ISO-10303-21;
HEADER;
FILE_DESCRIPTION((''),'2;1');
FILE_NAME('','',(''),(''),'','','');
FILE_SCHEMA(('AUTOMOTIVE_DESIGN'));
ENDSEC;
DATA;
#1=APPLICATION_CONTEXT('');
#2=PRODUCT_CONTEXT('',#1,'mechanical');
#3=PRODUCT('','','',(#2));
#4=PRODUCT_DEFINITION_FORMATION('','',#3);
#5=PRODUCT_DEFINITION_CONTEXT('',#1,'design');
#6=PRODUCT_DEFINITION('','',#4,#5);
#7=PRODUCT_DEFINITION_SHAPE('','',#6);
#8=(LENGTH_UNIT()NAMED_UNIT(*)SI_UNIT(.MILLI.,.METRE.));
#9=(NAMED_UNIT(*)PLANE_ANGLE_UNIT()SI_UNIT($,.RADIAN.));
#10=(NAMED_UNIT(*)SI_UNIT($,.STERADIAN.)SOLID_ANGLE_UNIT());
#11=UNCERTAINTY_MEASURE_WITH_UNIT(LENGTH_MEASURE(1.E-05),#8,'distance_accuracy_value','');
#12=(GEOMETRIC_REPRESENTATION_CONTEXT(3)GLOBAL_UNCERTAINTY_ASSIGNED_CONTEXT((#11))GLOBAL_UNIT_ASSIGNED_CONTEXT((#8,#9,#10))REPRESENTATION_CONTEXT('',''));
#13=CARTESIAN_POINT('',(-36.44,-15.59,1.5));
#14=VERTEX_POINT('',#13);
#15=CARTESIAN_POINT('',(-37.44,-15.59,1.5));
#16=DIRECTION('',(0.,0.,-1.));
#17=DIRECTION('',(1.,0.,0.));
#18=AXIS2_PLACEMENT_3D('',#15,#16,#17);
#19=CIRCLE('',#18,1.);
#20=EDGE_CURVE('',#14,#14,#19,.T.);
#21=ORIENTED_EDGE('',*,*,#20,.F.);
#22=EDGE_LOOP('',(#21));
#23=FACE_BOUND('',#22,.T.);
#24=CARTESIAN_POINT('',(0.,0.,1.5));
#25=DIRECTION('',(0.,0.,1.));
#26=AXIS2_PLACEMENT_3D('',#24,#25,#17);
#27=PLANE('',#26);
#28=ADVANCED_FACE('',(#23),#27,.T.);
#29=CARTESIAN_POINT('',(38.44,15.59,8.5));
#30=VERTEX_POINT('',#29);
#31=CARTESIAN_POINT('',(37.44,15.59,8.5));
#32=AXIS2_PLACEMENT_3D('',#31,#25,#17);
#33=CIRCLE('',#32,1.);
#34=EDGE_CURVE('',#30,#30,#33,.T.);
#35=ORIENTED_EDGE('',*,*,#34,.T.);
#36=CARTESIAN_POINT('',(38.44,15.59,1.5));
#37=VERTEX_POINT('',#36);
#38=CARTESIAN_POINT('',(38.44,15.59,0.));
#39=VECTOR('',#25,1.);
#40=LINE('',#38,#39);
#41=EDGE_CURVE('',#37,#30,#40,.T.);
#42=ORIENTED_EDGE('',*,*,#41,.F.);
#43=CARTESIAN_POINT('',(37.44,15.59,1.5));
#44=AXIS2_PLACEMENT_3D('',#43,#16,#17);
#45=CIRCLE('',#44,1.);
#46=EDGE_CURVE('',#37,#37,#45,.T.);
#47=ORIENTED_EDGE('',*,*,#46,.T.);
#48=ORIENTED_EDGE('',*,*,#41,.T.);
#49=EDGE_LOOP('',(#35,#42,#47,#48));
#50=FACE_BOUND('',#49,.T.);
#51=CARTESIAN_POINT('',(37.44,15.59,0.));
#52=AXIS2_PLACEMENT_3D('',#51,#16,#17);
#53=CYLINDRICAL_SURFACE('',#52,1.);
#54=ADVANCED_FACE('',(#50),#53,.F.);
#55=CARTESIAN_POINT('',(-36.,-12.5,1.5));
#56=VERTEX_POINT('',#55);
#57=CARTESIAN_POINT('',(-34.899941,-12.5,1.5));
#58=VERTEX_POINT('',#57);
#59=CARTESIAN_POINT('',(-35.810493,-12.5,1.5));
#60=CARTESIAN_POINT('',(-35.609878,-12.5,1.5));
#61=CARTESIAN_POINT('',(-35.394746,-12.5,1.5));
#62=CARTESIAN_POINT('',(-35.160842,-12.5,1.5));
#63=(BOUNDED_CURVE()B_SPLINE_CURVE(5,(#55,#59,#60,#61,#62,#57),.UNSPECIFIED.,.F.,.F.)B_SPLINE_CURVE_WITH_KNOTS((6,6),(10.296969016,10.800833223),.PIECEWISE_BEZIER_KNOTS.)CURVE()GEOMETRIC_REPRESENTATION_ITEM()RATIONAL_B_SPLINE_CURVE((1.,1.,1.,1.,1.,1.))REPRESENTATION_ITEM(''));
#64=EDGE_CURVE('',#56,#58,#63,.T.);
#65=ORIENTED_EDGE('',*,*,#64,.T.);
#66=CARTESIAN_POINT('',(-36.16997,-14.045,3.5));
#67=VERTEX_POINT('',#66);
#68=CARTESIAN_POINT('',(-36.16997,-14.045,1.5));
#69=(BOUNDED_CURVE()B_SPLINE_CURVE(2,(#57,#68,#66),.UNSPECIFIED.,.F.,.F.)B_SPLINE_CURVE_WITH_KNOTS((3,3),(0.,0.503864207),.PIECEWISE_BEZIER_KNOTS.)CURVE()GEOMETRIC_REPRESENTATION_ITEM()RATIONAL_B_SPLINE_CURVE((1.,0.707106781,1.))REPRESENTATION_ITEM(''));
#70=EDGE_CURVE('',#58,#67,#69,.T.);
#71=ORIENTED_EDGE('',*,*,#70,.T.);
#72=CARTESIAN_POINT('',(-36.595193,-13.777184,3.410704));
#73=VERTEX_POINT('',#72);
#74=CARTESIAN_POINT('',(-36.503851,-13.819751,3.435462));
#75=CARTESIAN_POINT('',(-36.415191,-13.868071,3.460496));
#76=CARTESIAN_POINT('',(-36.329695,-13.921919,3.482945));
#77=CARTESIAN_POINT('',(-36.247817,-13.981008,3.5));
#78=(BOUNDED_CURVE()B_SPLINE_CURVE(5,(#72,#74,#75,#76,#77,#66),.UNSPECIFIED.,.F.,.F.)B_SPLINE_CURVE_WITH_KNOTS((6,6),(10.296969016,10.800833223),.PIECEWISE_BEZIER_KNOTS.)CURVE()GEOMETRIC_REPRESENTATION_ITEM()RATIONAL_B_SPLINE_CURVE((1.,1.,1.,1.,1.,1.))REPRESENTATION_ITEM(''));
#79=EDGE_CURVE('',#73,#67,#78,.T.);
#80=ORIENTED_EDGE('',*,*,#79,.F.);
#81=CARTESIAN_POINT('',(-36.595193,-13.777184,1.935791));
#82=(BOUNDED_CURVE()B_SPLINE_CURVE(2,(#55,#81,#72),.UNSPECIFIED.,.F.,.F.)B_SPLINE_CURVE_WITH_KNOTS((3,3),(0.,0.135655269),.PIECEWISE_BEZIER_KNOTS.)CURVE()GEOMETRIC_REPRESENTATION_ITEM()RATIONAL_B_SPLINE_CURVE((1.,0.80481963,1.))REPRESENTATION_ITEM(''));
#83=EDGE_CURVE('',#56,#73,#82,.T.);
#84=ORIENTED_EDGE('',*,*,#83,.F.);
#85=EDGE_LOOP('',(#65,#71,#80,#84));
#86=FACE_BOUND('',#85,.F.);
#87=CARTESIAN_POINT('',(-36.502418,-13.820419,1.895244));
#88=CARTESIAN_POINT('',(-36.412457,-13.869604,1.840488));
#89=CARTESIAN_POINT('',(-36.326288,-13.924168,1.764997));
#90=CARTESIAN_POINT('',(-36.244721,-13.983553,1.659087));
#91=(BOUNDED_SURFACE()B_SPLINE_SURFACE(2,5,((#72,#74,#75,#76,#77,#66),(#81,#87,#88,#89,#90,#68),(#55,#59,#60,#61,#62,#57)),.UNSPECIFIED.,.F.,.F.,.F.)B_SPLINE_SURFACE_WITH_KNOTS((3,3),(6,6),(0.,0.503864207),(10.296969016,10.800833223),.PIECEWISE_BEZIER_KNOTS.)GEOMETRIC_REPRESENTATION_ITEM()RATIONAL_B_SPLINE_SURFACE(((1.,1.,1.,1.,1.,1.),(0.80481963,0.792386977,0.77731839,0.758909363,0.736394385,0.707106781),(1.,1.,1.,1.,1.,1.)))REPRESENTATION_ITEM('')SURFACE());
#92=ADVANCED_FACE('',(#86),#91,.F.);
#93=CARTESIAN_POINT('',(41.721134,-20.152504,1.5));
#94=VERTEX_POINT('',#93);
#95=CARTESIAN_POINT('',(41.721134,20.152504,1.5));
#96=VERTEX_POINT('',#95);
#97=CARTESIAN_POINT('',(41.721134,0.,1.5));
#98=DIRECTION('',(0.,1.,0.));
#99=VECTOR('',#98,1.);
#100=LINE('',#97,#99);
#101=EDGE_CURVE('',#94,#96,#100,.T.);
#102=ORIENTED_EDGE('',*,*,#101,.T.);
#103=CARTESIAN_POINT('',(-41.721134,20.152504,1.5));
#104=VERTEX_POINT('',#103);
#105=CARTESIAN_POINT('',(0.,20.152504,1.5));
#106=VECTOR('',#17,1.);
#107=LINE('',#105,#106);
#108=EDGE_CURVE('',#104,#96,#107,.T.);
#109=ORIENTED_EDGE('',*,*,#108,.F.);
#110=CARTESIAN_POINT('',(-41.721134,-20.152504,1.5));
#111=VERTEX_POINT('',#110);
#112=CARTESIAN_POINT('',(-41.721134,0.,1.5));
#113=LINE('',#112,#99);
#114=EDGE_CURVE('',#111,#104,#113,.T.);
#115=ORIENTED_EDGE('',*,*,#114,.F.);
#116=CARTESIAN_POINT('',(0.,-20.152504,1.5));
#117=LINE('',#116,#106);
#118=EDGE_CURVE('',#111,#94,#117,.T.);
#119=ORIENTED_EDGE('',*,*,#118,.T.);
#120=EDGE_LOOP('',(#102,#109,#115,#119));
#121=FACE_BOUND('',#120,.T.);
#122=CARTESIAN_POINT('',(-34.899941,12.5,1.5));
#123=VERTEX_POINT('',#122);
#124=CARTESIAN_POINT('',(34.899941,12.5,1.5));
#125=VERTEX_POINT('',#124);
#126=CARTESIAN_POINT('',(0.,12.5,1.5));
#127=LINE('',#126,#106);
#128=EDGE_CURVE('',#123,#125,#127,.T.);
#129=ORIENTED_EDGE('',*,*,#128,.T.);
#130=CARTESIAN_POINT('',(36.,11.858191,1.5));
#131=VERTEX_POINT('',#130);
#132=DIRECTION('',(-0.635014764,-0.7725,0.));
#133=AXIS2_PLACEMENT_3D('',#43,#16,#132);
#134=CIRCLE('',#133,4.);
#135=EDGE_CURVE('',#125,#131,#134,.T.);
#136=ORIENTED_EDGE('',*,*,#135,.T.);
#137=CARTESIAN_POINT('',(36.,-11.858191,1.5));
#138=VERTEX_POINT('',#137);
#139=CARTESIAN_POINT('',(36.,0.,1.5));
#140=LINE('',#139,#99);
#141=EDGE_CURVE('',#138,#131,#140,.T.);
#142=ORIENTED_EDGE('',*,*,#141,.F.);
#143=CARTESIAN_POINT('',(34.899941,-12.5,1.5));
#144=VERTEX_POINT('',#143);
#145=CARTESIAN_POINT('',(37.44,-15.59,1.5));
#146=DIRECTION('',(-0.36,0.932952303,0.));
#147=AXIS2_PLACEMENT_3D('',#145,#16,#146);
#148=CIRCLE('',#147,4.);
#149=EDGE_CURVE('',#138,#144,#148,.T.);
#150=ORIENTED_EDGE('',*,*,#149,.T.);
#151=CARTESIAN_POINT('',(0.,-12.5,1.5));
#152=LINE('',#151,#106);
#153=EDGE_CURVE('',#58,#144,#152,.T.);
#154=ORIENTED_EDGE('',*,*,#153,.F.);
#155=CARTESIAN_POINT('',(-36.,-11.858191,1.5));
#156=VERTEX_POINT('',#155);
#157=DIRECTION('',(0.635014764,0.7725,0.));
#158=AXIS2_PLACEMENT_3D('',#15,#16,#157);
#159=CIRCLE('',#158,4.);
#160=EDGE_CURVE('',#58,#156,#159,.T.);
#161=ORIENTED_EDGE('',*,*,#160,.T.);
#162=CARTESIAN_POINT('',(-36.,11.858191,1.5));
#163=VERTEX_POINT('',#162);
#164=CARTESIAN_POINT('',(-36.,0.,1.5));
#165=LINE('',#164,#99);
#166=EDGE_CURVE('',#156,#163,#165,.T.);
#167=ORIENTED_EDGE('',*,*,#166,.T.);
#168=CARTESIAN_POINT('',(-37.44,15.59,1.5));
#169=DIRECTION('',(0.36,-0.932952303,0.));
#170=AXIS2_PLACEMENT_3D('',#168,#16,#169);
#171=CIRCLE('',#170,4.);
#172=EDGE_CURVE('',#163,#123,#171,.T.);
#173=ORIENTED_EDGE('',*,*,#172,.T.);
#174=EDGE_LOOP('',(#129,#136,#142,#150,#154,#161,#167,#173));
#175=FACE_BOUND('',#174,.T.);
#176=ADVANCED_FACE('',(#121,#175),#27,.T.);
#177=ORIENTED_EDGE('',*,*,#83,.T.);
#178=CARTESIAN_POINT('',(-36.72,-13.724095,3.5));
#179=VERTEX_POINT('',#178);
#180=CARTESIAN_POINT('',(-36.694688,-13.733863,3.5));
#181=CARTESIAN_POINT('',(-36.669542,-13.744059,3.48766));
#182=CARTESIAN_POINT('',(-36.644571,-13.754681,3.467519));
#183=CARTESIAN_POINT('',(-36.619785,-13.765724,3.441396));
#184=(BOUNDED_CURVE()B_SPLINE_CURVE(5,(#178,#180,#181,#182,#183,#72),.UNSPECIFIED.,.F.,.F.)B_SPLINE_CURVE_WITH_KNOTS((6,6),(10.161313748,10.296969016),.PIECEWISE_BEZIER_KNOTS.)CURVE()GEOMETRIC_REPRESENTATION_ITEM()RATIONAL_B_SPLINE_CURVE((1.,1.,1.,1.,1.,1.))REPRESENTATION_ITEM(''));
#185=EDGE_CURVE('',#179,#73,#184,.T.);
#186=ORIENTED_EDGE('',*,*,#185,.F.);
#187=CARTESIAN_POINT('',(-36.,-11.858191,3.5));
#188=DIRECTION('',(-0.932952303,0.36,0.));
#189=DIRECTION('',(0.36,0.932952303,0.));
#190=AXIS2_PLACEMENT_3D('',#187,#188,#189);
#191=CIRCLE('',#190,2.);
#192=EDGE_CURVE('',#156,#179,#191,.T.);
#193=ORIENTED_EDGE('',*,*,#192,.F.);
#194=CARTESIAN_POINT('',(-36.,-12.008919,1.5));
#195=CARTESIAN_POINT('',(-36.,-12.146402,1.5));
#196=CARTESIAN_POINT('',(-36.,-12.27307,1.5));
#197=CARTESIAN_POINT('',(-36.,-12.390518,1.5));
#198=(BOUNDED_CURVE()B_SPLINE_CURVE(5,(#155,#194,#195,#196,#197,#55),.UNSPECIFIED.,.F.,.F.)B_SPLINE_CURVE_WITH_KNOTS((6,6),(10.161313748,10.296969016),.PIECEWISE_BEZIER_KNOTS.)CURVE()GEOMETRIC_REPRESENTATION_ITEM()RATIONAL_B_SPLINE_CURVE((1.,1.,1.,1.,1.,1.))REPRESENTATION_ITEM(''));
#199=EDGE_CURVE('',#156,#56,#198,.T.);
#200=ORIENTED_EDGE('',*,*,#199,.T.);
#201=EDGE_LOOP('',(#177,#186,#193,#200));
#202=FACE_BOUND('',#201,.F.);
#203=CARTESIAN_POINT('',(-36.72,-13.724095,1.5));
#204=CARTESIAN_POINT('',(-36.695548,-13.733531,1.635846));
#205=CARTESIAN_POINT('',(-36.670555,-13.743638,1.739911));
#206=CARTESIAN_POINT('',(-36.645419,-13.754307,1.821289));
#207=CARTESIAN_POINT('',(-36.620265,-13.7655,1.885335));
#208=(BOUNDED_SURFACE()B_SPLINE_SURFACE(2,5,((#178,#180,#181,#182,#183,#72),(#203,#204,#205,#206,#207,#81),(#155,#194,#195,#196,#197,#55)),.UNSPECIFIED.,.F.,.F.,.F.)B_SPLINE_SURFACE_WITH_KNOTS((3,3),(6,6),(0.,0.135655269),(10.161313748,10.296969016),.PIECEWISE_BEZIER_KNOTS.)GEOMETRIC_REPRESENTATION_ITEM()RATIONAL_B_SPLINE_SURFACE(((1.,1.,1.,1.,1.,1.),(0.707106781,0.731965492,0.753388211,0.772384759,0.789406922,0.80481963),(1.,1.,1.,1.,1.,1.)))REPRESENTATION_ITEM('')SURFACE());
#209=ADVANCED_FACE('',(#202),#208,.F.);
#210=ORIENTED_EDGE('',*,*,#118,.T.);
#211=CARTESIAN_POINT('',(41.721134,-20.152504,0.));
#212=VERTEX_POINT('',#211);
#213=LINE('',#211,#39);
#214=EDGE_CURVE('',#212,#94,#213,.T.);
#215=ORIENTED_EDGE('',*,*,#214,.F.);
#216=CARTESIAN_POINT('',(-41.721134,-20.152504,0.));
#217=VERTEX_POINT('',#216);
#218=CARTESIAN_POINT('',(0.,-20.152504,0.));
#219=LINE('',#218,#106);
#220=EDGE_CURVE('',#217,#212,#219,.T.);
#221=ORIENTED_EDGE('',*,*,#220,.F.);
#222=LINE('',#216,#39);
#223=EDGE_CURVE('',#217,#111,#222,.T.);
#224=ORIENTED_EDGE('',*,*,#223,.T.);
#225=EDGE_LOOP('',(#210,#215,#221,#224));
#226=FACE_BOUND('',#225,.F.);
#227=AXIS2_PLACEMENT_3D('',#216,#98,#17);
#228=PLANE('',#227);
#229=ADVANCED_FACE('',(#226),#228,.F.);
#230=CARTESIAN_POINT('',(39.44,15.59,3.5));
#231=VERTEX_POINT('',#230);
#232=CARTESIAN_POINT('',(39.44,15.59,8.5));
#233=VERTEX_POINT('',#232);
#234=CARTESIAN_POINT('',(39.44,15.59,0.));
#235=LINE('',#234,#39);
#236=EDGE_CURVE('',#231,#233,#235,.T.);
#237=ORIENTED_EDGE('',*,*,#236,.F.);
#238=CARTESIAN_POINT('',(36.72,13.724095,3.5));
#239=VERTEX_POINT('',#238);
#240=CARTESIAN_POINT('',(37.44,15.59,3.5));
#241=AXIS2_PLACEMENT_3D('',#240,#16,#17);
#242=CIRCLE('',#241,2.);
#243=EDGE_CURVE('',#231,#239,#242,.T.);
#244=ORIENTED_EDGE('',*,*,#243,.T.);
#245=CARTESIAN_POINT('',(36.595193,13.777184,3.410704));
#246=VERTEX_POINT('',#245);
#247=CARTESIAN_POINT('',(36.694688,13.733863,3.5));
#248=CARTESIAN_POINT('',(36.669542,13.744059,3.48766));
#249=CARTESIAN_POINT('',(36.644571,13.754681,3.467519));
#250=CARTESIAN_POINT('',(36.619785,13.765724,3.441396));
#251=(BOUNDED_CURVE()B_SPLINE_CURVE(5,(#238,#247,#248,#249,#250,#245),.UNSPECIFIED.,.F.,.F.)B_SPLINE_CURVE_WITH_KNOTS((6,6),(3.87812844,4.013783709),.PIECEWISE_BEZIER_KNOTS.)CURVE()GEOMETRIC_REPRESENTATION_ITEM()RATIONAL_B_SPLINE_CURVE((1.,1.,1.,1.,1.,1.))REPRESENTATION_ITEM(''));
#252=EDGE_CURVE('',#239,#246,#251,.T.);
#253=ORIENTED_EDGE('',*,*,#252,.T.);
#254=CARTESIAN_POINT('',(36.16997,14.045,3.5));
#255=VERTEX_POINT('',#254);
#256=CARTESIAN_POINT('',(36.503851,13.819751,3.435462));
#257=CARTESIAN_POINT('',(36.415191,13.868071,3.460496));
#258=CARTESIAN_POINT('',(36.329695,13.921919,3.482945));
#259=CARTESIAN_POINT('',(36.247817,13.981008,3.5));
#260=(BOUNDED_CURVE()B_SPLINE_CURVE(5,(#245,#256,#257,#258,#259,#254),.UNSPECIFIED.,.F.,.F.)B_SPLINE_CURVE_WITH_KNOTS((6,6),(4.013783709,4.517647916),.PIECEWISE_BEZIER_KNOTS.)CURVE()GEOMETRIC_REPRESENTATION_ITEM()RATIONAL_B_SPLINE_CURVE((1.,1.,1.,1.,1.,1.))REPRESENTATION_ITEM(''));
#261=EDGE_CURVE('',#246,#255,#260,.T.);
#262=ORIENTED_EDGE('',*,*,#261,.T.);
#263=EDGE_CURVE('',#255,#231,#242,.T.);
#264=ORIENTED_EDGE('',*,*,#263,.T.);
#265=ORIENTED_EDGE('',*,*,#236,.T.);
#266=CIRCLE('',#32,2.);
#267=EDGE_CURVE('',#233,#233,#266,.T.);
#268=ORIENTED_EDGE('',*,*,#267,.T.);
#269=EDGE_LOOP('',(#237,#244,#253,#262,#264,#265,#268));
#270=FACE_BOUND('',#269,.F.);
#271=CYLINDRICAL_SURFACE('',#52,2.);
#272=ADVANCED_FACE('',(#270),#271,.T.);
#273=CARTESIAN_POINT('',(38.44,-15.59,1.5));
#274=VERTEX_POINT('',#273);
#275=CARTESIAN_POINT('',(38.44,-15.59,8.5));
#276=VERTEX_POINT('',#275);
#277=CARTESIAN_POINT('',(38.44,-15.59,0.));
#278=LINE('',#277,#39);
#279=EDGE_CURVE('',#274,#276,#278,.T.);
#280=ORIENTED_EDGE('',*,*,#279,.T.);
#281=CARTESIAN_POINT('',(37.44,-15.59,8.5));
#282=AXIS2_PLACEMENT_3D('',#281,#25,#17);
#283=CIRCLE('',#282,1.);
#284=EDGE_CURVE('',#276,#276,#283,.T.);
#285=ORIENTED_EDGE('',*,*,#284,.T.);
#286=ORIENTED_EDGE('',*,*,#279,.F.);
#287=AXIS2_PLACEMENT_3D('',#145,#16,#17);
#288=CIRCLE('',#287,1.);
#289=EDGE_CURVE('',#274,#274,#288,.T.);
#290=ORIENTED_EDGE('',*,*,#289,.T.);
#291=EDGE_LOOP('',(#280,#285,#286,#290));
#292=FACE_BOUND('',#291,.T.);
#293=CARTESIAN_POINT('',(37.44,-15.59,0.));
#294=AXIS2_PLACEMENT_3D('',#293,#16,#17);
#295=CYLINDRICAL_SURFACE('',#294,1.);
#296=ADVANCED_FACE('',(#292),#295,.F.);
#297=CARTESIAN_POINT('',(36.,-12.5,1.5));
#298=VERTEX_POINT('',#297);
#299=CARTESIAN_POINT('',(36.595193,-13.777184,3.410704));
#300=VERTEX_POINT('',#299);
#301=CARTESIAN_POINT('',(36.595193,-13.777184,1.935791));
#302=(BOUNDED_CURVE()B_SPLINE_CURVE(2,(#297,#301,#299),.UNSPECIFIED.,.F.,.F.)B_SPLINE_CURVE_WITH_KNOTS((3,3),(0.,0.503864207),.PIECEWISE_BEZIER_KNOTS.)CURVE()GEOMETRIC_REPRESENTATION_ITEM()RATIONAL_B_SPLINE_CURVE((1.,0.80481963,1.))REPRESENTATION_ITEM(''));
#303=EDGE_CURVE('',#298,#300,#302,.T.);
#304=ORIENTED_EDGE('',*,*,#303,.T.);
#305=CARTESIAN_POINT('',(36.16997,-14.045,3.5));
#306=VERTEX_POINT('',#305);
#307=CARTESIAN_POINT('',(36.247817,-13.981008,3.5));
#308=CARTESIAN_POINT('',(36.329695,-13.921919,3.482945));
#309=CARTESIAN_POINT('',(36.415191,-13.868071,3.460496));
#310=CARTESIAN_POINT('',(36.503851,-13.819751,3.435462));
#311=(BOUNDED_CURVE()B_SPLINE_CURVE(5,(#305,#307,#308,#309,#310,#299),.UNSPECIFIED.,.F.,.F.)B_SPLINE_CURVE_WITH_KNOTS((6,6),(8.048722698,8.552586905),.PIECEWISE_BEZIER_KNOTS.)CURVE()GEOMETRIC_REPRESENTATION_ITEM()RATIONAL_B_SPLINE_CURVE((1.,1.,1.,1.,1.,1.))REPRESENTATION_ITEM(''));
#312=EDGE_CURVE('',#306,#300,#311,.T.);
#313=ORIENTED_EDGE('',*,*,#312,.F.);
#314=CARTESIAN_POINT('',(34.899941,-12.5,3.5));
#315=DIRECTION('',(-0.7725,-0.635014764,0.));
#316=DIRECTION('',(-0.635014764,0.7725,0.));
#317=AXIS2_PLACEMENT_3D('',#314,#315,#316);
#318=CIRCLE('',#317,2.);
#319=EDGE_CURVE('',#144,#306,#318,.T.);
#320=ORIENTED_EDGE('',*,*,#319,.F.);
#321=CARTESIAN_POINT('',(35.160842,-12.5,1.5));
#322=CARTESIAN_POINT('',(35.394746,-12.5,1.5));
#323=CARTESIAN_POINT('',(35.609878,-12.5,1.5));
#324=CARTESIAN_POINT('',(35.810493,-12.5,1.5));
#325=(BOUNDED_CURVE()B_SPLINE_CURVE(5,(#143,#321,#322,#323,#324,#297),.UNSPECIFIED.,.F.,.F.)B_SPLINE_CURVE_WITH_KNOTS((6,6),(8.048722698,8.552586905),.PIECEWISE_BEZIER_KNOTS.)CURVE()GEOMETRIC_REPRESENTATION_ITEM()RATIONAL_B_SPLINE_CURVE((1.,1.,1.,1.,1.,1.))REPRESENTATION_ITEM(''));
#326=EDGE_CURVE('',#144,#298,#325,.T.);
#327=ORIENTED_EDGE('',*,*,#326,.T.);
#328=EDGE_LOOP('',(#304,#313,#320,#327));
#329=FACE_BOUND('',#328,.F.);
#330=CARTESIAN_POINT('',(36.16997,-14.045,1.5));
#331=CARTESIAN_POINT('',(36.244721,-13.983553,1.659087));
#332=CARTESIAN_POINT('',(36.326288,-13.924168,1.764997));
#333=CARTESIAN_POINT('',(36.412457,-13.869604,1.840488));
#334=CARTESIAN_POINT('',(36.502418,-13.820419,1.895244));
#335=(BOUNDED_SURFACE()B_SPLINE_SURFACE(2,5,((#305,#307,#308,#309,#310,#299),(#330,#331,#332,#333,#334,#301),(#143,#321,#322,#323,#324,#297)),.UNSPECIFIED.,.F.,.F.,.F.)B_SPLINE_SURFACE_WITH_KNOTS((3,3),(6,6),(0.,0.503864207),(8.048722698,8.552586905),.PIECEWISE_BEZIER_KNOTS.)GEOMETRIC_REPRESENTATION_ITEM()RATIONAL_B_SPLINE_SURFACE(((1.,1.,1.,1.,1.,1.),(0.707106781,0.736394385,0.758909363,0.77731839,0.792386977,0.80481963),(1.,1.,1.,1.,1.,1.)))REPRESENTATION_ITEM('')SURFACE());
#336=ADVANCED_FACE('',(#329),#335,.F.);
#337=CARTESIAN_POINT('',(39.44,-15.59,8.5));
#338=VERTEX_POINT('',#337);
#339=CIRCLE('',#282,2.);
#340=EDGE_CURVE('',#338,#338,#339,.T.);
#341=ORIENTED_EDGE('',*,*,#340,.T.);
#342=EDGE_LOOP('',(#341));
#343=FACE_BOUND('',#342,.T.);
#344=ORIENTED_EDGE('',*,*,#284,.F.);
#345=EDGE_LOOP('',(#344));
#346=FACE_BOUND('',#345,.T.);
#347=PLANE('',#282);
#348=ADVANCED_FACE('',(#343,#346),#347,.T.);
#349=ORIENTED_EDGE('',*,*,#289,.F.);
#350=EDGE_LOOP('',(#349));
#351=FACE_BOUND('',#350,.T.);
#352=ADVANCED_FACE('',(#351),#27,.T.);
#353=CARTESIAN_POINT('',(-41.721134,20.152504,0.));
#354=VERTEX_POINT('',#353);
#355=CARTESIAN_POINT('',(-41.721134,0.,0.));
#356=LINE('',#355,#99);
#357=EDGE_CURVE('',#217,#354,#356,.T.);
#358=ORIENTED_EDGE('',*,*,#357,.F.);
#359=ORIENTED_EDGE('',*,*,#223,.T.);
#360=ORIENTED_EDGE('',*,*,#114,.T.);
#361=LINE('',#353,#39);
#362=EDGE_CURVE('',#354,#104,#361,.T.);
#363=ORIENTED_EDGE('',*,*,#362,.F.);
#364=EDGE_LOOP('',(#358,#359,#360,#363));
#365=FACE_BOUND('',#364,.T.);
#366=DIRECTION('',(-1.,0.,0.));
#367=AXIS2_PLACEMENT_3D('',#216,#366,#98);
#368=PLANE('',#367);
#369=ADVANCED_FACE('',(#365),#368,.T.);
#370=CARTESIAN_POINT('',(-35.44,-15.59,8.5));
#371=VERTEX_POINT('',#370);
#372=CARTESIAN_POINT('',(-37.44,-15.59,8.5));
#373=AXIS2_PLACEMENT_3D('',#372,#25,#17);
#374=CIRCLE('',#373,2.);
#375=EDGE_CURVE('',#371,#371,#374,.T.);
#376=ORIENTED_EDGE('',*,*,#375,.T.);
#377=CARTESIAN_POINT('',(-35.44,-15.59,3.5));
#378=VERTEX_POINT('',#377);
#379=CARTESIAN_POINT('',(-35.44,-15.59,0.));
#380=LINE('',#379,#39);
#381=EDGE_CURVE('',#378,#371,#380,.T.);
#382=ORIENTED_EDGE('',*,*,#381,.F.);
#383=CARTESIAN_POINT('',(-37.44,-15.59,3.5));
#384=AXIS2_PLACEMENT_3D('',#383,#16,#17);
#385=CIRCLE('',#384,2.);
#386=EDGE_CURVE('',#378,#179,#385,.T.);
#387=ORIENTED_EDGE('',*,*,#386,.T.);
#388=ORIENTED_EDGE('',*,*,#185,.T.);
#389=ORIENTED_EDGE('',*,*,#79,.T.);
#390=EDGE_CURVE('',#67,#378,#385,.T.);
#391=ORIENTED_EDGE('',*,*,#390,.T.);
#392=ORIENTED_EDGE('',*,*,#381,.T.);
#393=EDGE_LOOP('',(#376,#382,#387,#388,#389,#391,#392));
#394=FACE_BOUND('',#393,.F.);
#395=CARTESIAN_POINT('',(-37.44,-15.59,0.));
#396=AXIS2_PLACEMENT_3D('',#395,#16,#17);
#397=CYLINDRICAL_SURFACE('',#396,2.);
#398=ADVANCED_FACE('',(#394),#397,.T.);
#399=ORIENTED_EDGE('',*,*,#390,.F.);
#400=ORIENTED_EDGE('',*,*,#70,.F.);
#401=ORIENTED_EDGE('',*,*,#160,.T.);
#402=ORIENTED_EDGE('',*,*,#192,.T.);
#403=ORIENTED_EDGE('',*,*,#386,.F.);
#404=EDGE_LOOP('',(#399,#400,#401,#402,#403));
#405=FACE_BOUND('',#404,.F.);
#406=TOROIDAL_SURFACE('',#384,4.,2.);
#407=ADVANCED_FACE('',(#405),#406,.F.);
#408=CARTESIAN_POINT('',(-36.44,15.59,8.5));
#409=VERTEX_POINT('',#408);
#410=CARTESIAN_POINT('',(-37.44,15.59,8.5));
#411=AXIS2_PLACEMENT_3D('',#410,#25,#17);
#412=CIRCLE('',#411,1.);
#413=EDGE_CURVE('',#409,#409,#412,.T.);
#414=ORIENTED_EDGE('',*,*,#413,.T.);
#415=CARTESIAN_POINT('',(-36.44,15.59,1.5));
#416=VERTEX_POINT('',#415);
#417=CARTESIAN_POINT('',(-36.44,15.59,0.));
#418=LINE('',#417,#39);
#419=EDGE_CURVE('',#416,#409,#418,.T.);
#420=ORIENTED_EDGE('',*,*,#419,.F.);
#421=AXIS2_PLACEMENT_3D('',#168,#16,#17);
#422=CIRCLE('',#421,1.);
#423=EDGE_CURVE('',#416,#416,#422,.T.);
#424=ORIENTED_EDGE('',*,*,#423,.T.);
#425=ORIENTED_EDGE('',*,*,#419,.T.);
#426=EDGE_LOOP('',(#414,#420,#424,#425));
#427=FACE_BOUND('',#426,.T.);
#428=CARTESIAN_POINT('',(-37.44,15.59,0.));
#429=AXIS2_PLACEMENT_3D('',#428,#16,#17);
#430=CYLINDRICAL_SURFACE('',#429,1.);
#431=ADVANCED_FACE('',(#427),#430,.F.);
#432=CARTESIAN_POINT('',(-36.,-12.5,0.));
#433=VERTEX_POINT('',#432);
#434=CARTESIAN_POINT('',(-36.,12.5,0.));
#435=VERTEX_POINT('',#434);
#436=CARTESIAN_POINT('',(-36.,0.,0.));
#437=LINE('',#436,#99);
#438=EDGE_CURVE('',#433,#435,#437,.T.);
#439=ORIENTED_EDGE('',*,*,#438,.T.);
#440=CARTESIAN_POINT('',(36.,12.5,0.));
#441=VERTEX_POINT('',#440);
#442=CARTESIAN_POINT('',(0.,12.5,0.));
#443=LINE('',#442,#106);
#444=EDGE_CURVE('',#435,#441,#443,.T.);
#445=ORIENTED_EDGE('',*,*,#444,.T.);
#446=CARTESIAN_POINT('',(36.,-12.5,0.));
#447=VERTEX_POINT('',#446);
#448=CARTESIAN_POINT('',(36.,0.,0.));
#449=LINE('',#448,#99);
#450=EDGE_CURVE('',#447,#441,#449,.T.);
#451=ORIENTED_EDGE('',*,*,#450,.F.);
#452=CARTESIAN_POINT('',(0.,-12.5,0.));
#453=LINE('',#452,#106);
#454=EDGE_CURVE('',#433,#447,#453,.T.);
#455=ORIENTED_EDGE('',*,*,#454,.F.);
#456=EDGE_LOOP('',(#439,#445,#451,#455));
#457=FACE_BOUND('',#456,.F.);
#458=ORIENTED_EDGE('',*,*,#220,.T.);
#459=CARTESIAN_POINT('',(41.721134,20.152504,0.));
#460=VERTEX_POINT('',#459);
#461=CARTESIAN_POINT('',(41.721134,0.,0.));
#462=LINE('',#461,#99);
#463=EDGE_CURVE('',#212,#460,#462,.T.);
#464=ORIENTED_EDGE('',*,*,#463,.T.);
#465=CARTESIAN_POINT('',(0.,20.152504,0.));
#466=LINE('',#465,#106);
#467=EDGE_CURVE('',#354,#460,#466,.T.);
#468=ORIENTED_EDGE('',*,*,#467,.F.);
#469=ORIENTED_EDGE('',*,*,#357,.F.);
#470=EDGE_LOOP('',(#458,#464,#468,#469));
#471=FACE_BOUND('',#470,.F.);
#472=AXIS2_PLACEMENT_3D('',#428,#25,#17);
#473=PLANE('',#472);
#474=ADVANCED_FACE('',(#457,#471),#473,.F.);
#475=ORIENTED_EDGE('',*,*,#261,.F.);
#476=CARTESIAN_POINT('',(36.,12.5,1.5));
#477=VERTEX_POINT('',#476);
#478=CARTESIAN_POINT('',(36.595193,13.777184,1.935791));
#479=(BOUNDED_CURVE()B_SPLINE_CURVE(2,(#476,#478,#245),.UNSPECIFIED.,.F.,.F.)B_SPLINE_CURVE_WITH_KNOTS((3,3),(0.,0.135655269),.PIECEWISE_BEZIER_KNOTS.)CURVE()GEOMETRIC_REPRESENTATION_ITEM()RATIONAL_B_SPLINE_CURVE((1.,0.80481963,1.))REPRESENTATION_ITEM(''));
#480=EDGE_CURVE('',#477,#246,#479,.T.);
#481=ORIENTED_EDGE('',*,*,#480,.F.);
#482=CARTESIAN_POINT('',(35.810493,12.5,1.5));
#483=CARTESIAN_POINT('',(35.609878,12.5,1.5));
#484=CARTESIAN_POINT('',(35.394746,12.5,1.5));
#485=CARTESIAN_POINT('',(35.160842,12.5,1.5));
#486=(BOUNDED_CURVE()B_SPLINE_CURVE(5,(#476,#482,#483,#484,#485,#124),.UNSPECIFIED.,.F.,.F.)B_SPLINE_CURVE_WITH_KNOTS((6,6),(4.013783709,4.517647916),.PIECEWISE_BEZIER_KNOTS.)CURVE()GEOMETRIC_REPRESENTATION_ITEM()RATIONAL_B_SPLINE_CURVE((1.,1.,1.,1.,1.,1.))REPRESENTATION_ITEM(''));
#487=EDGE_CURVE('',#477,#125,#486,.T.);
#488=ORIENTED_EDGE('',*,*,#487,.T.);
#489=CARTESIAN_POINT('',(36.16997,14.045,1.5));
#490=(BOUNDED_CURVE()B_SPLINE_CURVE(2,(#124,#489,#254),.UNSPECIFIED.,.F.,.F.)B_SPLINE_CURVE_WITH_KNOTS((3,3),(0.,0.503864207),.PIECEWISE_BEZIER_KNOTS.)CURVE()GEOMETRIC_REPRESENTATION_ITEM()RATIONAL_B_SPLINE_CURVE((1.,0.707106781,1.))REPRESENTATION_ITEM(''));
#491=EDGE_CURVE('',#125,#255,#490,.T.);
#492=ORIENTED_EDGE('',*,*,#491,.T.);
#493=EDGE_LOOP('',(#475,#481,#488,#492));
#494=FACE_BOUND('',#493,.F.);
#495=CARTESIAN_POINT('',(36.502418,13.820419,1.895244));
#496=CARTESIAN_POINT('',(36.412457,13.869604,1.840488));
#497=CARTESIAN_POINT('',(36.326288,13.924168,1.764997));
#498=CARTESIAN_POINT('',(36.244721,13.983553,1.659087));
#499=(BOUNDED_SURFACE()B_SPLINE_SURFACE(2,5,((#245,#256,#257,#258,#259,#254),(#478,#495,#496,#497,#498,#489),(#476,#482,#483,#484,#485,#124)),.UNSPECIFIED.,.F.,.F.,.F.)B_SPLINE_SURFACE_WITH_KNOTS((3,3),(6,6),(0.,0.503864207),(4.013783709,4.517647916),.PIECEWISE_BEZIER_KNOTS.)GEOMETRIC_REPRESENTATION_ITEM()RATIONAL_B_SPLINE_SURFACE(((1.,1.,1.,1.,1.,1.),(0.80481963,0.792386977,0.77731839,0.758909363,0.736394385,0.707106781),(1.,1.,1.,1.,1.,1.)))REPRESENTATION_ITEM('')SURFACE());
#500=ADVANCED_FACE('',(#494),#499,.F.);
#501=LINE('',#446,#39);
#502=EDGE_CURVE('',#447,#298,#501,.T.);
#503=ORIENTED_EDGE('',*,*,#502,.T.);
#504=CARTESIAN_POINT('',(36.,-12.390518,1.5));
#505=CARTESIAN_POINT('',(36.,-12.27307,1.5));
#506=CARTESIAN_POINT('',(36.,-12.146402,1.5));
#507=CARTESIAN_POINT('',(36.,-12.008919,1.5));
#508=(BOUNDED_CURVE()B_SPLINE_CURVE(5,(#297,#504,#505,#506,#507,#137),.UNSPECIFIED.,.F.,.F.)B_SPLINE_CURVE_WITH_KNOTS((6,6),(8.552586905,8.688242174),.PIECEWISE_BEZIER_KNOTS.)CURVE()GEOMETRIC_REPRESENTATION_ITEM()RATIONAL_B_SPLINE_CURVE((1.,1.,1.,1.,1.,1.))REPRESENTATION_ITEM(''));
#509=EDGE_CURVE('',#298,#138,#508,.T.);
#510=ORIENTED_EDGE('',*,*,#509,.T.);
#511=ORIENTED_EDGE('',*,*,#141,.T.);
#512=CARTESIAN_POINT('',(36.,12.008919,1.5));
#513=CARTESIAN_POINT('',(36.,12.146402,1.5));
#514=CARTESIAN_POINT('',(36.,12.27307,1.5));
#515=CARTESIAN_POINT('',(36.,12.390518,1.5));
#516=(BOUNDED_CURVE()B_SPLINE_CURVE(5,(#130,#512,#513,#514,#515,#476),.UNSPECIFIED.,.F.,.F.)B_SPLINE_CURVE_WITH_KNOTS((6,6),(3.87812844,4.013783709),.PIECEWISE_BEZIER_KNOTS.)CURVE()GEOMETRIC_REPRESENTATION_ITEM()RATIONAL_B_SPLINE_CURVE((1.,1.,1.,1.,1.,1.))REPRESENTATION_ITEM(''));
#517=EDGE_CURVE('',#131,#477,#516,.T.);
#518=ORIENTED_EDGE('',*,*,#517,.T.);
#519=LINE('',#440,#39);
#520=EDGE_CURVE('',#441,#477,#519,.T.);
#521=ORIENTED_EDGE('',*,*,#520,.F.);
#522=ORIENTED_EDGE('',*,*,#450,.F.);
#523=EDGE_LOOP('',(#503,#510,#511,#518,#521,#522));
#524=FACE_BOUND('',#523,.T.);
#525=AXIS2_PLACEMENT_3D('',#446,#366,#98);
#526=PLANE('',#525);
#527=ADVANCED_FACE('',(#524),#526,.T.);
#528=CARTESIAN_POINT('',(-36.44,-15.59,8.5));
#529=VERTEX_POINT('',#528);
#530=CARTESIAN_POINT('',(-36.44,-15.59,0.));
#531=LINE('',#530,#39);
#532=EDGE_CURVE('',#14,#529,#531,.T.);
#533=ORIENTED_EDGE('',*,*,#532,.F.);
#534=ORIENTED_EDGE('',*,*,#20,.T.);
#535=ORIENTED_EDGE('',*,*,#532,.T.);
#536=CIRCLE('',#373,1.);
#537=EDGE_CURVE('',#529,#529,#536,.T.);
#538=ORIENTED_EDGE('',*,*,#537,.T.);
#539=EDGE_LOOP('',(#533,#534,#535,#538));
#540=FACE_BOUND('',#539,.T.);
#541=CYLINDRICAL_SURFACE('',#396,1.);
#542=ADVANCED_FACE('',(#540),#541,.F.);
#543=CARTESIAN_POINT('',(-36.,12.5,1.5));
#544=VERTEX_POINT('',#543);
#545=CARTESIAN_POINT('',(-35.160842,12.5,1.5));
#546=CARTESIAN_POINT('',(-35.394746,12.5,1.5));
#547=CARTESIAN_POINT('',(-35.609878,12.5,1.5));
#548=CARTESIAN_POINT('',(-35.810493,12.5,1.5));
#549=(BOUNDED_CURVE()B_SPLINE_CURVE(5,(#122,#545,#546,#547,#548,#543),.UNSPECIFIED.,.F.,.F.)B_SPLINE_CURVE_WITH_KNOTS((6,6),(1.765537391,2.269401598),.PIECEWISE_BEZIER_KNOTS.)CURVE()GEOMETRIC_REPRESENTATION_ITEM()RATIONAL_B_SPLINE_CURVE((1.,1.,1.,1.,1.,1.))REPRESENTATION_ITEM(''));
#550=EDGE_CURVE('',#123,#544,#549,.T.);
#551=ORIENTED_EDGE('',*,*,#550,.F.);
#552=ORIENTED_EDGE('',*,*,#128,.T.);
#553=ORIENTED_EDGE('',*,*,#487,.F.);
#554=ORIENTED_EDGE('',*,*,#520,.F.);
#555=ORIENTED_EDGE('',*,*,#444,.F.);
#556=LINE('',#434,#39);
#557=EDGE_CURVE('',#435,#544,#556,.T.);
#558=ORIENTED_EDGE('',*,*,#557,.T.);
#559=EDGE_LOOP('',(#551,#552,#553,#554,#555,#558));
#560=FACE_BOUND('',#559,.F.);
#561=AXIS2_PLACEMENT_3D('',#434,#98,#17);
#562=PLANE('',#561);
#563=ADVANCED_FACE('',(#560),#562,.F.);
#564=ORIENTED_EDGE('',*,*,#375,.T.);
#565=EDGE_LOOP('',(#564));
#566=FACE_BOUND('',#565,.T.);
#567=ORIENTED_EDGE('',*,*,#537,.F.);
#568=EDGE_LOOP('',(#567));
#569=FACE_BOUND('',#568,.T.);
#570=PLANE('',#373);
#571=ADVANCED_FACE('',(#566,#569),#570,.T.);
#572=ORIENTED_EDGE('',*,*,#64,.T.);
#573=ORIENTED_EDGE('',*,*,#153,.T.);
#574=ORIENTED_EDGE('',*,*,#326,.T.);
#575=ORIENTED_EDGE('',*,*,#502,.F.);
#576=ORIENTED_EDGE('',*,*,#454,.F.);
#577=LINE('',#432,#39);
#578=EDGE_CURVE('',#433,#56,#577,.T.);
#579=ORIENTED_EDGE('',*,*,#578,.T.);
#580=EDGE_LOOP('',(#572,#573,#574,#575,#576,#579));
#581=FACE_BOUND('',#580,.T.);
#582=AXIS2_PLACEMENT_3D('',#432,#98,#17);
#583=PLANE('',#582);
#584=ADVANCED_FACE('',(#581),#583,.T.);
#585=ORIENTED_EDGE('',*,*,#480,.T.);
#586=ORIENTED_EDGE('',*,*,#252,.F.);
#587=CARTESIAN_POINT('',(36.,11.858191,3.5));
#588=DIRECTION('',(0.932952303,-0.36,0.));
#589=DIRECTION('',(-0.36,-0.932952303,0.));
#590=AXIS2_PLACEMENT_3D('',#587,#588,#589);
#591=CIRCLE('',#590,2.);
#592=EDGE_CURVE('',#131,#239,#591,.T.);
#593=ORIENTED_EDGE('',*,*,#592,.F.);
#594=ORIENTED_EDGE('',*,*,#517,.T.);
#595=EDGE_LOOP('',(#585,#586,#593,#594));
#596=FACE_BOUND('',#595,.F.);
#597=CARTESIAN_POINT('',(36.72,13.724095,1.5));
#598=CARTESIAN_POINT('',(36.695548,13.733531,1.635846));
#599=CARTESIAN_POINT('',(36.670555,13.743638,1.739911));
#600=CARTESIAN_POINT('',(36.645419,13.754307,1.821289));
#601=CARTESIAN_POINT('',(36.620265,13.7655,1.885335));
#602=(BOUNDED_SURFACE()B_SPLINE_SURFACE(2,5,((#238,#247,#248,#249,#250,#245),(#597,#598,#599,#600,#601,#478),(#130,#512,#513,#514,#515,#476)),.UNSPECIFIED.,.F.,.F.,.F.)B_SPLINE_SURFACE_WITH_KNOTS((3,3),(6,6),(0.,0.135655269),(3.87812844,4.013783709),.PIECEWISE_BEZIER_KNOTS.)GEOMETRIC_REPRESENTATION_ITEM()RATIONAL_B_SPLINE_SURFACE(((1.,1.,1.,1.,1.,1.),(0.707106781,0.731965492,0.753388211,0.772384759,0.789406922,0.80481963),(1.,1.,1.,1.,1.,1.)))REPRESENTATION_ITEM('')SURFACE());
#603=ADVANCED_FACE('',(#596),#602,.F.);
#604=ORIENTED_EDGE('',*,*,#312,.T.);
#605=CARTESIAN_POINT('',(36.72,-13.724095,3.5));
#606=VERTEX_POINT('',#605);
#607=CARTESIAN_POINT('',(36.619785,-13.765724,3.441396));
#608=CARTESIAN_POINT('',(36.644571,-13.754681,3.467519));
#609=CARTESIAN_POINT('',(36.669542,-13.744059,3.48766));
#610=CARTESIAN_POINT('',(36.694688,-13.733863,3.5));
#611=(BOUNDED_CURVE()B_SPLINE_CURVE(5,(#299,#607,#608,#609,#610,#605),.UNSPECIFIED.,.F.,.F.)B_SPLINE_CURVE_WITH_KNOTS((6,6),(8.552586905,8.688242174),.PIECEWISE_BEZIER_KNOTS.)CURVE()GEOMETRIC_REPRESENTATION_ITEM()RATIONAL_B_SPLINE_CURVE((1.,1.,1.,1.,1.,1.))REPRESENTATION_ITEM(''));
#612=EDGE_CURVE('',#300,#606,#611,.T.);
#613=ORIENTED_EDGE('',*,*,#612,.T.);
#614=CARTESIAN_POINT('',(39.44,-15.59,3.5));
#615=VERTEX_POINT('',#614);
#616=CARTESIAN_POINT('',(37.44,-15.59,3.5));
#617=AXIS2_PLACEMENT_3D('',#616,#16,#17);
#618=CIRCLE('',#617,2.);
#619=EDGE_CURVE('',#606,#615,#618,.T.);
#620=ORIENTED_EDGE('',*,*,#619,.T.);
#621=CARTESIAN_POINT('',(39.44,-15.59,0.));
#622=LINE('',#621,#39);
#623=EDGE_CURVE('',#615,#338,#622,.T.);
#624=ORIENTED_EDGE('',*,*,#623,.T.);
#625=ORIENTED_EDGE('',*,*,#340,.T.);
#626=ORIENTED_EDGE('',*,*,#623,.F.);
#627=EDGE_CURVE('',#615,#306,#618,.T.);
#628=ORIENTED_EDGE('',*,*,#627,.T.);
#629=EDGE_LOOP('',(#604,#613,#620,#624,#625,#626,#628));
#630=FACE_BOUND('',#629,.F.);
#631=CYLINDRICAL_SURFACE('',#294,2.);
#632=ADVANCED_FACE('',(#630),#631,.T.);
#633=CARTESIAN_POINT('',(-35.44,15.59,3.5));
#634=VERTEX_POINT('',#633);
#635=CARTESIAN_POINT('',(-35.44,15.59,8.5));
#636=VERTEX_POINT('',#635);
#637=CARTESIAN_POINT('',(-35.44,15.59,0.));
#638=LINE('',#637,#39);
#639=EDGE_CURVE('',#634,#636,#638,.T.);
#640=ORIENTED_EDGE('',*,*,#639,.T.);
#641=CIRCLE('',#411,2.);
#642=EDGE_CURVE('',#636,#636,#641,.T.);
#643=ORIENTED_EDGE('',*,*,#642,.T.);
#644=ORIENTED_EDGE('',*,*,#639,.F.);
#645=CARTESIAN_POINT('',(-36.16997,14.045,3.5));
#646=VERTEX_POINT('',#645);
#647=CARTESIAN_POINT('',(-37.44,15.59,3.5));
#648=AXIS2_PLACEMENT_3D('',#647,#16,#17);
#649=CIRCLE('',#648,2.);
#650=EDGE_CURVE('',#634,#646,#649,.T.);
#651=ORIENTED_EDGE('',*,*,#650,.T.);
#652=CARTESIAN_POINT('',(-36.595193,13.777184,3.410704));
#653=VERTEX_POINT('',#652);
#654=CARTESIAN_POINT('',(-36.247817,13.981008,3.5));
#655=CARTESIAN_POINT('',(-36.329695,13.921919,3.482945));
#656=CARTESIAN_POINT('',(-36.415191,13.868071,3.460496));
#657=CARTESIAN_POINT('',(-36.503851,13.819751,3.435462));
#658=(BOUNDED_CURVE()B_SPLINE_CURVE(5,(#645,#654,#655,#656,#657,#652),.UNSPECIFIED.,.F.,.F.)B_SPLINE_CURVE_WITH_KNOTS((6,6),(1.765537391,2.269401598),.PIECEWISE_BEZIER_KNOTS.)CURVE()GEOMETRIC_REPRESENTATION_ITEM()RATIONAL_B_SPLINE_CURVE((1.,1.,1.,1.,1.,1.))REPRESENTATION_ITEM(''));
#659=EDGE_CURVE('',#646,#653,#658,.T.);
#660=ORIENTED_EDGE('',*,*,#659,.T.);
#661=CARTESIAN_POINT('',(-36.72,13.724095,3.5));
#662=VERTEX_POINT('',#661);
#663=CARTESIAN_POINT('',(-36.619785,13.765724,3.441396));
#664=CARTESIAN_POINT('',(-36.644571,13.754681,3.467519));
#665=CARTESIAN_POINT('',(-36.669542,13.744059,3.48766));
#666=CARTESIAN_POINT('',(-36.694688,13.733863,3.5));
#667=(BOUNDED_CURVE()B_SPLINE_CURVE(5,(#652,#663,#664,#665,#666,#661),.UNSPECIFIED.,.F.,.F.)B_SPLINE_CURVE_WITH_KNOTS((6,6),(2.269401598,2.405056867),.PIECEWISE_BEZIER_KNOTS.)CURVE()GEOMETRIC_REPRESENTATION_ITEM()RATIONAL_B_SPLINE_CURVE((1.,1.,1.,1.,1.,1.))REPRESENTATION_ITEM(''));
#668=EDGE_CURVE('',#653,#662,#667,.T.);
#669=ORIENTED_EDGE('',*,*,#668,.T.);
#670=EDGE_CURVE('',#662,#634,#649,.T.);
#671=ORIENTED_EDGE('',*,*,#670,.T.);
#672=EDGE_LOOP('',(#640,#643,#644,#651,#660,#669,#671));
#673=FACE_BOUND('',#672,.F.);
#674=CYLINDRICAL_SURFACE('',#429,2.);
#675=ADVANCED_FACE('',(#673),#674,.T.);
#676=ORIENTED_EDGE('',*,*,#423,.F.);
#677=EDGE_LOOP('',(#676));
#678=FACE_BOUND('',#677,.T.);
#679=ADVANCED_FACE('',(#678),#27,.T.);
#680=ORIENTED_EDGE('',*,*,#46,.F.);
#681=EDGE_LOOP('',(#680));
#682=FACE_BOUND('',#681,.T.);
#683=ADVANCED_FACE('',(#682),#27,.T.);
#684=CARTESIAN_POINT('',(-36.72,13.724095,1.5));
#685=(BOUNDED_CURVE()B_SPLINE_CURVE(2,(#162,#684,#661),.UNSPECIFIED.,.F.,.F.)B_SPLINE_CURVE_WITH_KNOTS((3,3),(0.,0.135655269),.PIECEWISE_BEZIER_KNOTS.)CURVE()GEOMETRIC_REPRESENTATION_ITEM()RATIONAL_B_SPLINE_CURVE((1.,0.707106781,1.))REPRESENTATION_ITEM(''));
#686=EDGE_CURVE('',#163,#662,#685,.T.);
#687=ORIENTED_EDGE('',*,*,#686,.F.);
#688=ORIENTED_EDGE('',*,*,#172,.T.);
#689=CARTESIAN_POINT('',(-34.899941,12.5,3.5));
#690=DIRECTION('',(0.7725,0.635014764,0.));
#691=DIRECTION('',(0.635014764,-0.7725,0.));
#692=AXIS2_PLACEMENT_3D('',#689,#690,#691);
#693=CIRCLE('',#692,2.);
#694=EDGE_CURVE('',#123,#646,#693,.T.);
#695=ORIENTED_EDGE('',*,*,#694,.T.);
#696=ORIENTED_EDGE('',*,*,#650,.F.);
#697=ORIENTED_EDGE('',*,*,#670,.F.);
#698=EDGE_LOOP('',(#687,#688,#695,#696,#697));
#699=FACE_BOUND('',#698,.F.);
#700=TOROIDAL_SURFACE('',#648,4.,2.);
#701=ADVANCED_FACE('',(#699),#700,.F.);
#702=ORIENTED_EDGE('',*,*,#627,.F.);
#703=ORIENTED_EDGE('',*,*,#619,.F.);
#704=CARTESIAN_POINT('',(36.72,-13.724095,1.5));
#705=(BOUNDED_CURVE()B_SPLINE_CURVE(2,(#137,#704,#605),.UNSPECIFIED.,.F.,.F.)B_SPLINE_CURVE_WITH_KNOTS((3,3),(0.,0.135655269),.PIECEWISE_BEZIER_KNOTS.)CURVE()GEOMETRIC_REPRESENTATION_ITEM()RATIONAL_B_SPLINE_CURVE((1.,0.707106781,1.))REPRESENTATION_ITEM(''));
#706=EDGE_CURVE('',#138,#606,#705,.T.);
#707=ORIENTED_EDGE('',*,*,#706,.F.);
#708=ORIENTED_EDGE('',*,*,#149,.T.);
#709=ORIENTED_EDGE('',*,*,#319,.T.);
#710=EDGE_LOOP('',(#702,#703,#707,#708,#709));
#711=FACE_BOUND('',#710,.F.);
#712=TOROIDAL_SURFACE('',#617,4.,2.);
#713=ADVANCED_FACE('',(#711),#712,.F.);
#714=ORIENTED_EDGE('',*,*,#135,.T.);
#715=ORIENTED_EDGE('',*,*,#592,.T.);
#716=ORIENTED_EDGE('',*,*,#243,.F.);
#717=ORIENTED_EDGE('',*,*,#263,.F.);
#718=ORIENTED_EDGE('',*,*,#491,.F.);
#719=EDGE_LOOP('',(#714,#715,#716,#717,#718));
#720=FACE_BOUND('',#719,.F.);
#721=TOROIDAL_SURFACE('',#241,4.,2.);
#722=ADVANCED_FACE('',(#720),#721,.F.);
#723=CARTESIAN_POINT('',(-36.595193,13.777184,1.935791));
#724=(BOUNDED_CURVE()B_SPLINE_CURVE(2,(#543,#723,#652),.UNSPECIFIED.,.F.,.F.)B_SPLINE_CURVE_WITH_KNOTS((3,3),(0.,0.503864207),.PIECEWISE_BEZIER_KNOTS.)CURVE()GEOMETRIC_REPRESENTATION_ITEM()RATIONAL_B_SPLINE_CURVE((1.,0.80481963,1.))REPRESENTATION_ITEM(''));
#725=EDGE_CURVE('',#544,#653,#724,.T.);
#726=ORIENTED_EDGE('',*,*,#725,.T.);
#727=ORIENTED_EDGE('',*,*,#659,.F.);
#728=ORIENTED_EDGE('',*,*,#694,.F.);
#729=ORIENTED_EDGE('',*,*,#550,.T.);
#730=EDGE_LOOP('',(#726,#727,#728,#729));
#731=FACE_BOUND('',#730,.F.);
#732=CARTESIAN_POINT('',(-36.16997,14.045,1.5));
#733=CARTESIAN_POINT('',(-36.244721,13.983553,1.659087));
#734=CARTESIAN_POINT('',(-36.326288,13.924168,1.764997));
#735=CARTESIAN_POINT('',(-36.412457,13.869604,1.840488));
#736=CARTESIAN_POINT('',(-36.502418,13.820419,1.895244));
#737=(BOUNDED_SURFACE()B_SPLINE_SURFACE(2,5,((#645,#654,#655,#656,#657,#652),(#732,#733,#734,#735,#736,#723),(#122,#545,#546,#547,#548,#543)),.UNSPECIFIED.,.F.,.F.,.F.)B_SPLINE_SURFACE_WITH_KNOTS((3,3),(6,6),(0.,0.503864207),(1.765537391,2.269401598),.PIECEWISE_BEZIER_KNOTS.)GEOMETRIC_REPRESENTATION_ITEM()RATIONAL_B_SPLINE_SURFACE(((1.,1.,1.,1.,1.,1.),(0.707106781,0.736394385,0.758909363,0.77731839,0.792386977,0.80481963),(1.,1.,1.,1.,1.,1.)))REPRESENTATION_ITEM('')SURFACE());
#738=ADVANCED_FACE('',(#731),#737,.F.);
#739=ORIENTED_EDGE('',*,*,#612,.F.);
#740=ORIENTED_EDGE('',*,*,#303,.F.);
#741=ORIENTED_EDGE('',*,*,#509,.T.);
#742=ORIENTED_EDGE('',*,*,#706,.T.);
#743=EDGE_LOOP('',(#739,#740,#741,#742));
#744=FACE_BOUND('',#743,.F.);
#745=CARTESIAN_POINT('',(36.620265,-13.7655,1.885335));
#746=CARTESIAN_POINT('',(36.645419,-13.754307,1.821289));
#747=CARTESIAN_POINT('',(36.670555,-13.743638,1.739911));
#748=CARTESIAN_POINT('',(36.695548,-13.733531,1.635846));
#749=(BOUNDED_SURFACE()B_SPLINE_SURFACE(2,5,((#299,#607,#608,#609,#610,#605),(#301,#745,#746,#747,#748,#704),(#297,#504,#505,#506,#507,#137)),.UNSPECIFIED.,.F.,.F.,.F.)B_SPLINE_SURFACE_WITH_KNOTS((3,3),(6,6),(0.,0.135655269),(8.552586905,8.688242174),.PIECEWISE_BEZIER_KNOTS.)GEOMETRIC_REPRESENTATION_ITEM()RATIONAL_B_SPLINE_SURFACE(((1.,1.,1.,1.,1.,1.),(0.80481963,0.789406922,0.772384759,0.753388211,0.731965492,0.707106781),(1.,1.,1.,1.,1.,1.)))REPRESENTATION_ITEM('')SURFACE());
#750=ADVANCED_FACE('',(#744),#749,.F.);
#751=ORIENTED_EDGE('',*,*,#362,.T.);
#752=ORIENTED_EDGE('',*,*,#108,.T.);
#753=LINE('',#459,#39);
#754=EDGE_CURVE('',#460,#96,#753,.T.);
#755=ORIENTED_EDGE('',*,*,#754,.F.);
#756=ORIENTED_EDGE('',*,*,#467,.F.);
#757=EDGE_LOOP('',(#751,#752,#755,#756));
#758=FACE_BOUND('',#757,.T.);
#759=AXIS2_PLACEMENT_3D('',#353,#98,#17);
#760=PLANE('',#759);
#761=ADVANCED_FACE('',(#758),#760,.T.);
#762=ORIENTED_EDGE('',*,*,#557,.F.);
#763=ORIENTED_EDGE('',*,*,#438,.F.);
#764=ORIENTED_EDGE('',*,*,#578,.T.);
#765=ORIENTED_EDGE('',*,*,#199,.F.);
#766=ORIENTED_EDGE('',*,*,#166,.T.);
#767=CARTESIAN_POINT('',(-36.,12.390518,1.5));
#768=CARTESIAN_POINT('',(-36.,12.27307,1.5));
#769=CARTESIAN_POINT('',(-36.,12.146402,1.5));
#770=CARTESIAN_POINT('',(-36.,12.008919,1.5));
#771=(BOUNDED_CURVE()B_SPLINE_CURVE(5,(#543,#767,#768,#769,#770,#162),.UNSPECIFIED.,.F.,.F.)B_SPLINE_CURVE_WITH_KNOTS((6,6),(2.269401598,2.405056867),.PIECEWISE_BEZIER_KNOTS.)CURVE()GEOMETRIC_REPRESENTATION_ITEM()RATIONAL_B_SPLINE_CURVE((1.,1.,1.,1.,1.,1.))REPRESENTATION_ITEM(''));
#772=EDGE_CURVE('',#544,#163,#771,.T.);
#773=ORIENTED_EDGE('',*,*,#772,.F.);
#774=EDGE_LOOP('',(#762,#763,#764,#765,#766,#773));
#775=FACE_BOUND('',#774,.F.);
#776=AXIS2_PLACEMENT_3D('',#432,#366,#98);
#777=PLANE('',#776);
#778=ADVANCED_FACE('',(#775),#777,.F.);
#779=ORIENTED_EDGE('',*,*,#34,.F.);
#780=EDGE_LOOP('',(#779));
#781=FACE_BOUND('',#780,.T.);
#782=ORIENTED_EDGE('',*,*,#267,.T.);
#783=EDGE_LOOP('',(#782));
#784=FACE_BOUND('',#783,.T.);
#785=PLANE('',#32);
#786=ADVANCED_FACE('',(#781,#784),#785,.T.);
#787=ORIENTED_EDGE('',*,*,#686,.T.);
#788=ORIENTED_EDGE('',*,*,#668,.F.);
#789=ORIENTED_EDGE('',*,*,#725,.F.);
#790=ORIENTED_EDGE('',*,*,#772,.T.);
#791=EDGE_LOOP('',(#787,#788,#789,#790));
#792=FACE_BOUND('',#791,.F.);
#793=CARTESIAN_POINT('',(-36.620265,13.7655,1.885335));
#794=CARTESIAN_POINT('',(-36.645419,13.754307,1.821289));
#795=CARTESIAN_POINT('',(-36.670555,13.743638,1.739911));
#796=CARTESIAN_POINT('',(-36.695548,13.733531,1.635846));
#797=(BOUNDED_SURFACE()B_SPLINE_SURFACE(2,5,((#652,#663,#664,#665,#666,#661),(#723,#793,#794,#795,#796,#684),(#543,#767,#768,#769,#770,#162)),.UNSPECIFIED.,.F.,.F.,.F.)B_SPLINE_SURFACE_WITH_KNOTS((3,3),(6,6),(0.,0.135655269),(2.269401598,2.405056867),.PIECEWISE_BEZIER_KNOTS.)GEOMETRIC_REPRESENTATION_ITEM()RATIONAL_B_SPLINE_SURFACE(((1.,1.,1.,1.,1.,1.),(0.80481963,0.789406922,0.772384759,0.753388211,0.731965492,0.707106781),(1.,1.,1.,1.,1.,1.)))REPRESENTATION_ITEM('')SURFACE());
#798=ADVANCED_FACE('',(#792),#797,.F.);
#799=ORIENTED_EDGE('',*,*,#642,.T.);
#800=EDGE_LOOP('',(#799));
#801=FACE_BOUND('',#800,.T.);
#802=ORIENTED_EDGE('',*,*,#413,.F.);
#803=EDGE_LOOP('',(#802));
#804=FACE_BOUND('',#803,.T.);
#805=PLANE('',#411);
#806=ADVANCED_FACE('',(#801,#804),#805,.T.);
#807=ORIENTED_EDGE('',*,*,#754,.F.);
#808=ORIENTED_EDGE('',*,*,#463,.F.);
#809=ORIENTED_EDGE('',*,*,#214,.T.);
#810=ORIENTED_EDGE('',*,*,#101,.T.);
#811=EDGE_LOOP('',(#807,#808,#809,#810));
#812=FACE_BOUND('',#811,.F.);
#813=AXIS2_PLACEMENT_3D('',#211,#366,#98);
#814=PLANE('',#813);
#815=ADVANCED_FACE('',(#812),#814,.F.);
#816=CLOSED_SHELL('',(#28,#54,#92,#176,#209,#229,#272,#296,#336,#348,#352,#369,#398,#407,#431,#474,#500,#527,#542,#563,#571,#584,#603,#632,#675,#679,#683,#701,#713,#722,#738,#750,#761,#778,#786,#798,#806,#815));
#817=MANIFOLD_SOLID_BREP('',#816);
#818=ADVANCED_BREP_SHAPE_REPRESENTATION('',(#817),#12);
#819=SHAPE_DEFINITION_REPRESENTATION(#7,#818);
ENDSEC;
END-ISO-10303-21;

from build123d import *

# Parameters (mm, degrees)
SKETCH_W      = 83.442268
SKETCH_H      = 40.305008
SKETCH_W_2    = 72
SKETCH_H_2    = 25
PAD_DEPTH     = 1.5
SKETCH001_R   = 2
SKETCH001_R_2 = 1
PAD001_DEPTH  = 8.5
FILLET_R      = 2


with BuildPart() as part:
    # Sketch → Pad (new body)
    with BuildSketch(Plane.XY):
        Rectangle(SKETCH_W, SKETCH_H)
        Rectangle(SKETCH_W_2, SKETCH_H_2, mode=Mode.SUBTRACT)
    extrude(amount=PAD_DEPTH)

    # Sketch001 → Pad001 (join)
    with BuildSketch(Plane.XY):
        with Locations((-37.44, 15.59)):
            Circle(SKETCH001_R)
        with Locations((-37.44, 15.59)):
            Circle(SKETCH001_R_2, mode=Mode.SUBTRACT)
        with Locations((-37.44, -15.59)):
            Circle(SKETCH001_R)
        with Locations((-37.44, -15.59)):
            Circle(SKETCH001_R_2, mode=Mode.SUBTRACT)
        with Locations((37.44, -15.59)):
            Circle(SKETCH001_R)
        with Locations((37.44, -15.59)):
            Circle(SKETCH001_R_2, mode=Mode.SUBTRACT)
        with Locations((37.44, 15.59)):
            Circle(SKETCH001_R)
        with Locations((37.44, 15.59)):
            Circle(SKETCH001_R_2, mode=Mode.SUBTRACT)
    extrude(amount=PAD001_DEPTH)

    # Fillet
    fillet_edges = [part.edges().sort_by_distance(p)[0] for p in [
        (-39.44, 15.59, 1.5),
        (35.44, 15.59, 1.5),
        (35.44, -15.59, 1.5),
        (-39.44, -15.59, 1.5),
    ]]
    fillet(fillet_edges, radius=FILLET_R)


solid = part.part
